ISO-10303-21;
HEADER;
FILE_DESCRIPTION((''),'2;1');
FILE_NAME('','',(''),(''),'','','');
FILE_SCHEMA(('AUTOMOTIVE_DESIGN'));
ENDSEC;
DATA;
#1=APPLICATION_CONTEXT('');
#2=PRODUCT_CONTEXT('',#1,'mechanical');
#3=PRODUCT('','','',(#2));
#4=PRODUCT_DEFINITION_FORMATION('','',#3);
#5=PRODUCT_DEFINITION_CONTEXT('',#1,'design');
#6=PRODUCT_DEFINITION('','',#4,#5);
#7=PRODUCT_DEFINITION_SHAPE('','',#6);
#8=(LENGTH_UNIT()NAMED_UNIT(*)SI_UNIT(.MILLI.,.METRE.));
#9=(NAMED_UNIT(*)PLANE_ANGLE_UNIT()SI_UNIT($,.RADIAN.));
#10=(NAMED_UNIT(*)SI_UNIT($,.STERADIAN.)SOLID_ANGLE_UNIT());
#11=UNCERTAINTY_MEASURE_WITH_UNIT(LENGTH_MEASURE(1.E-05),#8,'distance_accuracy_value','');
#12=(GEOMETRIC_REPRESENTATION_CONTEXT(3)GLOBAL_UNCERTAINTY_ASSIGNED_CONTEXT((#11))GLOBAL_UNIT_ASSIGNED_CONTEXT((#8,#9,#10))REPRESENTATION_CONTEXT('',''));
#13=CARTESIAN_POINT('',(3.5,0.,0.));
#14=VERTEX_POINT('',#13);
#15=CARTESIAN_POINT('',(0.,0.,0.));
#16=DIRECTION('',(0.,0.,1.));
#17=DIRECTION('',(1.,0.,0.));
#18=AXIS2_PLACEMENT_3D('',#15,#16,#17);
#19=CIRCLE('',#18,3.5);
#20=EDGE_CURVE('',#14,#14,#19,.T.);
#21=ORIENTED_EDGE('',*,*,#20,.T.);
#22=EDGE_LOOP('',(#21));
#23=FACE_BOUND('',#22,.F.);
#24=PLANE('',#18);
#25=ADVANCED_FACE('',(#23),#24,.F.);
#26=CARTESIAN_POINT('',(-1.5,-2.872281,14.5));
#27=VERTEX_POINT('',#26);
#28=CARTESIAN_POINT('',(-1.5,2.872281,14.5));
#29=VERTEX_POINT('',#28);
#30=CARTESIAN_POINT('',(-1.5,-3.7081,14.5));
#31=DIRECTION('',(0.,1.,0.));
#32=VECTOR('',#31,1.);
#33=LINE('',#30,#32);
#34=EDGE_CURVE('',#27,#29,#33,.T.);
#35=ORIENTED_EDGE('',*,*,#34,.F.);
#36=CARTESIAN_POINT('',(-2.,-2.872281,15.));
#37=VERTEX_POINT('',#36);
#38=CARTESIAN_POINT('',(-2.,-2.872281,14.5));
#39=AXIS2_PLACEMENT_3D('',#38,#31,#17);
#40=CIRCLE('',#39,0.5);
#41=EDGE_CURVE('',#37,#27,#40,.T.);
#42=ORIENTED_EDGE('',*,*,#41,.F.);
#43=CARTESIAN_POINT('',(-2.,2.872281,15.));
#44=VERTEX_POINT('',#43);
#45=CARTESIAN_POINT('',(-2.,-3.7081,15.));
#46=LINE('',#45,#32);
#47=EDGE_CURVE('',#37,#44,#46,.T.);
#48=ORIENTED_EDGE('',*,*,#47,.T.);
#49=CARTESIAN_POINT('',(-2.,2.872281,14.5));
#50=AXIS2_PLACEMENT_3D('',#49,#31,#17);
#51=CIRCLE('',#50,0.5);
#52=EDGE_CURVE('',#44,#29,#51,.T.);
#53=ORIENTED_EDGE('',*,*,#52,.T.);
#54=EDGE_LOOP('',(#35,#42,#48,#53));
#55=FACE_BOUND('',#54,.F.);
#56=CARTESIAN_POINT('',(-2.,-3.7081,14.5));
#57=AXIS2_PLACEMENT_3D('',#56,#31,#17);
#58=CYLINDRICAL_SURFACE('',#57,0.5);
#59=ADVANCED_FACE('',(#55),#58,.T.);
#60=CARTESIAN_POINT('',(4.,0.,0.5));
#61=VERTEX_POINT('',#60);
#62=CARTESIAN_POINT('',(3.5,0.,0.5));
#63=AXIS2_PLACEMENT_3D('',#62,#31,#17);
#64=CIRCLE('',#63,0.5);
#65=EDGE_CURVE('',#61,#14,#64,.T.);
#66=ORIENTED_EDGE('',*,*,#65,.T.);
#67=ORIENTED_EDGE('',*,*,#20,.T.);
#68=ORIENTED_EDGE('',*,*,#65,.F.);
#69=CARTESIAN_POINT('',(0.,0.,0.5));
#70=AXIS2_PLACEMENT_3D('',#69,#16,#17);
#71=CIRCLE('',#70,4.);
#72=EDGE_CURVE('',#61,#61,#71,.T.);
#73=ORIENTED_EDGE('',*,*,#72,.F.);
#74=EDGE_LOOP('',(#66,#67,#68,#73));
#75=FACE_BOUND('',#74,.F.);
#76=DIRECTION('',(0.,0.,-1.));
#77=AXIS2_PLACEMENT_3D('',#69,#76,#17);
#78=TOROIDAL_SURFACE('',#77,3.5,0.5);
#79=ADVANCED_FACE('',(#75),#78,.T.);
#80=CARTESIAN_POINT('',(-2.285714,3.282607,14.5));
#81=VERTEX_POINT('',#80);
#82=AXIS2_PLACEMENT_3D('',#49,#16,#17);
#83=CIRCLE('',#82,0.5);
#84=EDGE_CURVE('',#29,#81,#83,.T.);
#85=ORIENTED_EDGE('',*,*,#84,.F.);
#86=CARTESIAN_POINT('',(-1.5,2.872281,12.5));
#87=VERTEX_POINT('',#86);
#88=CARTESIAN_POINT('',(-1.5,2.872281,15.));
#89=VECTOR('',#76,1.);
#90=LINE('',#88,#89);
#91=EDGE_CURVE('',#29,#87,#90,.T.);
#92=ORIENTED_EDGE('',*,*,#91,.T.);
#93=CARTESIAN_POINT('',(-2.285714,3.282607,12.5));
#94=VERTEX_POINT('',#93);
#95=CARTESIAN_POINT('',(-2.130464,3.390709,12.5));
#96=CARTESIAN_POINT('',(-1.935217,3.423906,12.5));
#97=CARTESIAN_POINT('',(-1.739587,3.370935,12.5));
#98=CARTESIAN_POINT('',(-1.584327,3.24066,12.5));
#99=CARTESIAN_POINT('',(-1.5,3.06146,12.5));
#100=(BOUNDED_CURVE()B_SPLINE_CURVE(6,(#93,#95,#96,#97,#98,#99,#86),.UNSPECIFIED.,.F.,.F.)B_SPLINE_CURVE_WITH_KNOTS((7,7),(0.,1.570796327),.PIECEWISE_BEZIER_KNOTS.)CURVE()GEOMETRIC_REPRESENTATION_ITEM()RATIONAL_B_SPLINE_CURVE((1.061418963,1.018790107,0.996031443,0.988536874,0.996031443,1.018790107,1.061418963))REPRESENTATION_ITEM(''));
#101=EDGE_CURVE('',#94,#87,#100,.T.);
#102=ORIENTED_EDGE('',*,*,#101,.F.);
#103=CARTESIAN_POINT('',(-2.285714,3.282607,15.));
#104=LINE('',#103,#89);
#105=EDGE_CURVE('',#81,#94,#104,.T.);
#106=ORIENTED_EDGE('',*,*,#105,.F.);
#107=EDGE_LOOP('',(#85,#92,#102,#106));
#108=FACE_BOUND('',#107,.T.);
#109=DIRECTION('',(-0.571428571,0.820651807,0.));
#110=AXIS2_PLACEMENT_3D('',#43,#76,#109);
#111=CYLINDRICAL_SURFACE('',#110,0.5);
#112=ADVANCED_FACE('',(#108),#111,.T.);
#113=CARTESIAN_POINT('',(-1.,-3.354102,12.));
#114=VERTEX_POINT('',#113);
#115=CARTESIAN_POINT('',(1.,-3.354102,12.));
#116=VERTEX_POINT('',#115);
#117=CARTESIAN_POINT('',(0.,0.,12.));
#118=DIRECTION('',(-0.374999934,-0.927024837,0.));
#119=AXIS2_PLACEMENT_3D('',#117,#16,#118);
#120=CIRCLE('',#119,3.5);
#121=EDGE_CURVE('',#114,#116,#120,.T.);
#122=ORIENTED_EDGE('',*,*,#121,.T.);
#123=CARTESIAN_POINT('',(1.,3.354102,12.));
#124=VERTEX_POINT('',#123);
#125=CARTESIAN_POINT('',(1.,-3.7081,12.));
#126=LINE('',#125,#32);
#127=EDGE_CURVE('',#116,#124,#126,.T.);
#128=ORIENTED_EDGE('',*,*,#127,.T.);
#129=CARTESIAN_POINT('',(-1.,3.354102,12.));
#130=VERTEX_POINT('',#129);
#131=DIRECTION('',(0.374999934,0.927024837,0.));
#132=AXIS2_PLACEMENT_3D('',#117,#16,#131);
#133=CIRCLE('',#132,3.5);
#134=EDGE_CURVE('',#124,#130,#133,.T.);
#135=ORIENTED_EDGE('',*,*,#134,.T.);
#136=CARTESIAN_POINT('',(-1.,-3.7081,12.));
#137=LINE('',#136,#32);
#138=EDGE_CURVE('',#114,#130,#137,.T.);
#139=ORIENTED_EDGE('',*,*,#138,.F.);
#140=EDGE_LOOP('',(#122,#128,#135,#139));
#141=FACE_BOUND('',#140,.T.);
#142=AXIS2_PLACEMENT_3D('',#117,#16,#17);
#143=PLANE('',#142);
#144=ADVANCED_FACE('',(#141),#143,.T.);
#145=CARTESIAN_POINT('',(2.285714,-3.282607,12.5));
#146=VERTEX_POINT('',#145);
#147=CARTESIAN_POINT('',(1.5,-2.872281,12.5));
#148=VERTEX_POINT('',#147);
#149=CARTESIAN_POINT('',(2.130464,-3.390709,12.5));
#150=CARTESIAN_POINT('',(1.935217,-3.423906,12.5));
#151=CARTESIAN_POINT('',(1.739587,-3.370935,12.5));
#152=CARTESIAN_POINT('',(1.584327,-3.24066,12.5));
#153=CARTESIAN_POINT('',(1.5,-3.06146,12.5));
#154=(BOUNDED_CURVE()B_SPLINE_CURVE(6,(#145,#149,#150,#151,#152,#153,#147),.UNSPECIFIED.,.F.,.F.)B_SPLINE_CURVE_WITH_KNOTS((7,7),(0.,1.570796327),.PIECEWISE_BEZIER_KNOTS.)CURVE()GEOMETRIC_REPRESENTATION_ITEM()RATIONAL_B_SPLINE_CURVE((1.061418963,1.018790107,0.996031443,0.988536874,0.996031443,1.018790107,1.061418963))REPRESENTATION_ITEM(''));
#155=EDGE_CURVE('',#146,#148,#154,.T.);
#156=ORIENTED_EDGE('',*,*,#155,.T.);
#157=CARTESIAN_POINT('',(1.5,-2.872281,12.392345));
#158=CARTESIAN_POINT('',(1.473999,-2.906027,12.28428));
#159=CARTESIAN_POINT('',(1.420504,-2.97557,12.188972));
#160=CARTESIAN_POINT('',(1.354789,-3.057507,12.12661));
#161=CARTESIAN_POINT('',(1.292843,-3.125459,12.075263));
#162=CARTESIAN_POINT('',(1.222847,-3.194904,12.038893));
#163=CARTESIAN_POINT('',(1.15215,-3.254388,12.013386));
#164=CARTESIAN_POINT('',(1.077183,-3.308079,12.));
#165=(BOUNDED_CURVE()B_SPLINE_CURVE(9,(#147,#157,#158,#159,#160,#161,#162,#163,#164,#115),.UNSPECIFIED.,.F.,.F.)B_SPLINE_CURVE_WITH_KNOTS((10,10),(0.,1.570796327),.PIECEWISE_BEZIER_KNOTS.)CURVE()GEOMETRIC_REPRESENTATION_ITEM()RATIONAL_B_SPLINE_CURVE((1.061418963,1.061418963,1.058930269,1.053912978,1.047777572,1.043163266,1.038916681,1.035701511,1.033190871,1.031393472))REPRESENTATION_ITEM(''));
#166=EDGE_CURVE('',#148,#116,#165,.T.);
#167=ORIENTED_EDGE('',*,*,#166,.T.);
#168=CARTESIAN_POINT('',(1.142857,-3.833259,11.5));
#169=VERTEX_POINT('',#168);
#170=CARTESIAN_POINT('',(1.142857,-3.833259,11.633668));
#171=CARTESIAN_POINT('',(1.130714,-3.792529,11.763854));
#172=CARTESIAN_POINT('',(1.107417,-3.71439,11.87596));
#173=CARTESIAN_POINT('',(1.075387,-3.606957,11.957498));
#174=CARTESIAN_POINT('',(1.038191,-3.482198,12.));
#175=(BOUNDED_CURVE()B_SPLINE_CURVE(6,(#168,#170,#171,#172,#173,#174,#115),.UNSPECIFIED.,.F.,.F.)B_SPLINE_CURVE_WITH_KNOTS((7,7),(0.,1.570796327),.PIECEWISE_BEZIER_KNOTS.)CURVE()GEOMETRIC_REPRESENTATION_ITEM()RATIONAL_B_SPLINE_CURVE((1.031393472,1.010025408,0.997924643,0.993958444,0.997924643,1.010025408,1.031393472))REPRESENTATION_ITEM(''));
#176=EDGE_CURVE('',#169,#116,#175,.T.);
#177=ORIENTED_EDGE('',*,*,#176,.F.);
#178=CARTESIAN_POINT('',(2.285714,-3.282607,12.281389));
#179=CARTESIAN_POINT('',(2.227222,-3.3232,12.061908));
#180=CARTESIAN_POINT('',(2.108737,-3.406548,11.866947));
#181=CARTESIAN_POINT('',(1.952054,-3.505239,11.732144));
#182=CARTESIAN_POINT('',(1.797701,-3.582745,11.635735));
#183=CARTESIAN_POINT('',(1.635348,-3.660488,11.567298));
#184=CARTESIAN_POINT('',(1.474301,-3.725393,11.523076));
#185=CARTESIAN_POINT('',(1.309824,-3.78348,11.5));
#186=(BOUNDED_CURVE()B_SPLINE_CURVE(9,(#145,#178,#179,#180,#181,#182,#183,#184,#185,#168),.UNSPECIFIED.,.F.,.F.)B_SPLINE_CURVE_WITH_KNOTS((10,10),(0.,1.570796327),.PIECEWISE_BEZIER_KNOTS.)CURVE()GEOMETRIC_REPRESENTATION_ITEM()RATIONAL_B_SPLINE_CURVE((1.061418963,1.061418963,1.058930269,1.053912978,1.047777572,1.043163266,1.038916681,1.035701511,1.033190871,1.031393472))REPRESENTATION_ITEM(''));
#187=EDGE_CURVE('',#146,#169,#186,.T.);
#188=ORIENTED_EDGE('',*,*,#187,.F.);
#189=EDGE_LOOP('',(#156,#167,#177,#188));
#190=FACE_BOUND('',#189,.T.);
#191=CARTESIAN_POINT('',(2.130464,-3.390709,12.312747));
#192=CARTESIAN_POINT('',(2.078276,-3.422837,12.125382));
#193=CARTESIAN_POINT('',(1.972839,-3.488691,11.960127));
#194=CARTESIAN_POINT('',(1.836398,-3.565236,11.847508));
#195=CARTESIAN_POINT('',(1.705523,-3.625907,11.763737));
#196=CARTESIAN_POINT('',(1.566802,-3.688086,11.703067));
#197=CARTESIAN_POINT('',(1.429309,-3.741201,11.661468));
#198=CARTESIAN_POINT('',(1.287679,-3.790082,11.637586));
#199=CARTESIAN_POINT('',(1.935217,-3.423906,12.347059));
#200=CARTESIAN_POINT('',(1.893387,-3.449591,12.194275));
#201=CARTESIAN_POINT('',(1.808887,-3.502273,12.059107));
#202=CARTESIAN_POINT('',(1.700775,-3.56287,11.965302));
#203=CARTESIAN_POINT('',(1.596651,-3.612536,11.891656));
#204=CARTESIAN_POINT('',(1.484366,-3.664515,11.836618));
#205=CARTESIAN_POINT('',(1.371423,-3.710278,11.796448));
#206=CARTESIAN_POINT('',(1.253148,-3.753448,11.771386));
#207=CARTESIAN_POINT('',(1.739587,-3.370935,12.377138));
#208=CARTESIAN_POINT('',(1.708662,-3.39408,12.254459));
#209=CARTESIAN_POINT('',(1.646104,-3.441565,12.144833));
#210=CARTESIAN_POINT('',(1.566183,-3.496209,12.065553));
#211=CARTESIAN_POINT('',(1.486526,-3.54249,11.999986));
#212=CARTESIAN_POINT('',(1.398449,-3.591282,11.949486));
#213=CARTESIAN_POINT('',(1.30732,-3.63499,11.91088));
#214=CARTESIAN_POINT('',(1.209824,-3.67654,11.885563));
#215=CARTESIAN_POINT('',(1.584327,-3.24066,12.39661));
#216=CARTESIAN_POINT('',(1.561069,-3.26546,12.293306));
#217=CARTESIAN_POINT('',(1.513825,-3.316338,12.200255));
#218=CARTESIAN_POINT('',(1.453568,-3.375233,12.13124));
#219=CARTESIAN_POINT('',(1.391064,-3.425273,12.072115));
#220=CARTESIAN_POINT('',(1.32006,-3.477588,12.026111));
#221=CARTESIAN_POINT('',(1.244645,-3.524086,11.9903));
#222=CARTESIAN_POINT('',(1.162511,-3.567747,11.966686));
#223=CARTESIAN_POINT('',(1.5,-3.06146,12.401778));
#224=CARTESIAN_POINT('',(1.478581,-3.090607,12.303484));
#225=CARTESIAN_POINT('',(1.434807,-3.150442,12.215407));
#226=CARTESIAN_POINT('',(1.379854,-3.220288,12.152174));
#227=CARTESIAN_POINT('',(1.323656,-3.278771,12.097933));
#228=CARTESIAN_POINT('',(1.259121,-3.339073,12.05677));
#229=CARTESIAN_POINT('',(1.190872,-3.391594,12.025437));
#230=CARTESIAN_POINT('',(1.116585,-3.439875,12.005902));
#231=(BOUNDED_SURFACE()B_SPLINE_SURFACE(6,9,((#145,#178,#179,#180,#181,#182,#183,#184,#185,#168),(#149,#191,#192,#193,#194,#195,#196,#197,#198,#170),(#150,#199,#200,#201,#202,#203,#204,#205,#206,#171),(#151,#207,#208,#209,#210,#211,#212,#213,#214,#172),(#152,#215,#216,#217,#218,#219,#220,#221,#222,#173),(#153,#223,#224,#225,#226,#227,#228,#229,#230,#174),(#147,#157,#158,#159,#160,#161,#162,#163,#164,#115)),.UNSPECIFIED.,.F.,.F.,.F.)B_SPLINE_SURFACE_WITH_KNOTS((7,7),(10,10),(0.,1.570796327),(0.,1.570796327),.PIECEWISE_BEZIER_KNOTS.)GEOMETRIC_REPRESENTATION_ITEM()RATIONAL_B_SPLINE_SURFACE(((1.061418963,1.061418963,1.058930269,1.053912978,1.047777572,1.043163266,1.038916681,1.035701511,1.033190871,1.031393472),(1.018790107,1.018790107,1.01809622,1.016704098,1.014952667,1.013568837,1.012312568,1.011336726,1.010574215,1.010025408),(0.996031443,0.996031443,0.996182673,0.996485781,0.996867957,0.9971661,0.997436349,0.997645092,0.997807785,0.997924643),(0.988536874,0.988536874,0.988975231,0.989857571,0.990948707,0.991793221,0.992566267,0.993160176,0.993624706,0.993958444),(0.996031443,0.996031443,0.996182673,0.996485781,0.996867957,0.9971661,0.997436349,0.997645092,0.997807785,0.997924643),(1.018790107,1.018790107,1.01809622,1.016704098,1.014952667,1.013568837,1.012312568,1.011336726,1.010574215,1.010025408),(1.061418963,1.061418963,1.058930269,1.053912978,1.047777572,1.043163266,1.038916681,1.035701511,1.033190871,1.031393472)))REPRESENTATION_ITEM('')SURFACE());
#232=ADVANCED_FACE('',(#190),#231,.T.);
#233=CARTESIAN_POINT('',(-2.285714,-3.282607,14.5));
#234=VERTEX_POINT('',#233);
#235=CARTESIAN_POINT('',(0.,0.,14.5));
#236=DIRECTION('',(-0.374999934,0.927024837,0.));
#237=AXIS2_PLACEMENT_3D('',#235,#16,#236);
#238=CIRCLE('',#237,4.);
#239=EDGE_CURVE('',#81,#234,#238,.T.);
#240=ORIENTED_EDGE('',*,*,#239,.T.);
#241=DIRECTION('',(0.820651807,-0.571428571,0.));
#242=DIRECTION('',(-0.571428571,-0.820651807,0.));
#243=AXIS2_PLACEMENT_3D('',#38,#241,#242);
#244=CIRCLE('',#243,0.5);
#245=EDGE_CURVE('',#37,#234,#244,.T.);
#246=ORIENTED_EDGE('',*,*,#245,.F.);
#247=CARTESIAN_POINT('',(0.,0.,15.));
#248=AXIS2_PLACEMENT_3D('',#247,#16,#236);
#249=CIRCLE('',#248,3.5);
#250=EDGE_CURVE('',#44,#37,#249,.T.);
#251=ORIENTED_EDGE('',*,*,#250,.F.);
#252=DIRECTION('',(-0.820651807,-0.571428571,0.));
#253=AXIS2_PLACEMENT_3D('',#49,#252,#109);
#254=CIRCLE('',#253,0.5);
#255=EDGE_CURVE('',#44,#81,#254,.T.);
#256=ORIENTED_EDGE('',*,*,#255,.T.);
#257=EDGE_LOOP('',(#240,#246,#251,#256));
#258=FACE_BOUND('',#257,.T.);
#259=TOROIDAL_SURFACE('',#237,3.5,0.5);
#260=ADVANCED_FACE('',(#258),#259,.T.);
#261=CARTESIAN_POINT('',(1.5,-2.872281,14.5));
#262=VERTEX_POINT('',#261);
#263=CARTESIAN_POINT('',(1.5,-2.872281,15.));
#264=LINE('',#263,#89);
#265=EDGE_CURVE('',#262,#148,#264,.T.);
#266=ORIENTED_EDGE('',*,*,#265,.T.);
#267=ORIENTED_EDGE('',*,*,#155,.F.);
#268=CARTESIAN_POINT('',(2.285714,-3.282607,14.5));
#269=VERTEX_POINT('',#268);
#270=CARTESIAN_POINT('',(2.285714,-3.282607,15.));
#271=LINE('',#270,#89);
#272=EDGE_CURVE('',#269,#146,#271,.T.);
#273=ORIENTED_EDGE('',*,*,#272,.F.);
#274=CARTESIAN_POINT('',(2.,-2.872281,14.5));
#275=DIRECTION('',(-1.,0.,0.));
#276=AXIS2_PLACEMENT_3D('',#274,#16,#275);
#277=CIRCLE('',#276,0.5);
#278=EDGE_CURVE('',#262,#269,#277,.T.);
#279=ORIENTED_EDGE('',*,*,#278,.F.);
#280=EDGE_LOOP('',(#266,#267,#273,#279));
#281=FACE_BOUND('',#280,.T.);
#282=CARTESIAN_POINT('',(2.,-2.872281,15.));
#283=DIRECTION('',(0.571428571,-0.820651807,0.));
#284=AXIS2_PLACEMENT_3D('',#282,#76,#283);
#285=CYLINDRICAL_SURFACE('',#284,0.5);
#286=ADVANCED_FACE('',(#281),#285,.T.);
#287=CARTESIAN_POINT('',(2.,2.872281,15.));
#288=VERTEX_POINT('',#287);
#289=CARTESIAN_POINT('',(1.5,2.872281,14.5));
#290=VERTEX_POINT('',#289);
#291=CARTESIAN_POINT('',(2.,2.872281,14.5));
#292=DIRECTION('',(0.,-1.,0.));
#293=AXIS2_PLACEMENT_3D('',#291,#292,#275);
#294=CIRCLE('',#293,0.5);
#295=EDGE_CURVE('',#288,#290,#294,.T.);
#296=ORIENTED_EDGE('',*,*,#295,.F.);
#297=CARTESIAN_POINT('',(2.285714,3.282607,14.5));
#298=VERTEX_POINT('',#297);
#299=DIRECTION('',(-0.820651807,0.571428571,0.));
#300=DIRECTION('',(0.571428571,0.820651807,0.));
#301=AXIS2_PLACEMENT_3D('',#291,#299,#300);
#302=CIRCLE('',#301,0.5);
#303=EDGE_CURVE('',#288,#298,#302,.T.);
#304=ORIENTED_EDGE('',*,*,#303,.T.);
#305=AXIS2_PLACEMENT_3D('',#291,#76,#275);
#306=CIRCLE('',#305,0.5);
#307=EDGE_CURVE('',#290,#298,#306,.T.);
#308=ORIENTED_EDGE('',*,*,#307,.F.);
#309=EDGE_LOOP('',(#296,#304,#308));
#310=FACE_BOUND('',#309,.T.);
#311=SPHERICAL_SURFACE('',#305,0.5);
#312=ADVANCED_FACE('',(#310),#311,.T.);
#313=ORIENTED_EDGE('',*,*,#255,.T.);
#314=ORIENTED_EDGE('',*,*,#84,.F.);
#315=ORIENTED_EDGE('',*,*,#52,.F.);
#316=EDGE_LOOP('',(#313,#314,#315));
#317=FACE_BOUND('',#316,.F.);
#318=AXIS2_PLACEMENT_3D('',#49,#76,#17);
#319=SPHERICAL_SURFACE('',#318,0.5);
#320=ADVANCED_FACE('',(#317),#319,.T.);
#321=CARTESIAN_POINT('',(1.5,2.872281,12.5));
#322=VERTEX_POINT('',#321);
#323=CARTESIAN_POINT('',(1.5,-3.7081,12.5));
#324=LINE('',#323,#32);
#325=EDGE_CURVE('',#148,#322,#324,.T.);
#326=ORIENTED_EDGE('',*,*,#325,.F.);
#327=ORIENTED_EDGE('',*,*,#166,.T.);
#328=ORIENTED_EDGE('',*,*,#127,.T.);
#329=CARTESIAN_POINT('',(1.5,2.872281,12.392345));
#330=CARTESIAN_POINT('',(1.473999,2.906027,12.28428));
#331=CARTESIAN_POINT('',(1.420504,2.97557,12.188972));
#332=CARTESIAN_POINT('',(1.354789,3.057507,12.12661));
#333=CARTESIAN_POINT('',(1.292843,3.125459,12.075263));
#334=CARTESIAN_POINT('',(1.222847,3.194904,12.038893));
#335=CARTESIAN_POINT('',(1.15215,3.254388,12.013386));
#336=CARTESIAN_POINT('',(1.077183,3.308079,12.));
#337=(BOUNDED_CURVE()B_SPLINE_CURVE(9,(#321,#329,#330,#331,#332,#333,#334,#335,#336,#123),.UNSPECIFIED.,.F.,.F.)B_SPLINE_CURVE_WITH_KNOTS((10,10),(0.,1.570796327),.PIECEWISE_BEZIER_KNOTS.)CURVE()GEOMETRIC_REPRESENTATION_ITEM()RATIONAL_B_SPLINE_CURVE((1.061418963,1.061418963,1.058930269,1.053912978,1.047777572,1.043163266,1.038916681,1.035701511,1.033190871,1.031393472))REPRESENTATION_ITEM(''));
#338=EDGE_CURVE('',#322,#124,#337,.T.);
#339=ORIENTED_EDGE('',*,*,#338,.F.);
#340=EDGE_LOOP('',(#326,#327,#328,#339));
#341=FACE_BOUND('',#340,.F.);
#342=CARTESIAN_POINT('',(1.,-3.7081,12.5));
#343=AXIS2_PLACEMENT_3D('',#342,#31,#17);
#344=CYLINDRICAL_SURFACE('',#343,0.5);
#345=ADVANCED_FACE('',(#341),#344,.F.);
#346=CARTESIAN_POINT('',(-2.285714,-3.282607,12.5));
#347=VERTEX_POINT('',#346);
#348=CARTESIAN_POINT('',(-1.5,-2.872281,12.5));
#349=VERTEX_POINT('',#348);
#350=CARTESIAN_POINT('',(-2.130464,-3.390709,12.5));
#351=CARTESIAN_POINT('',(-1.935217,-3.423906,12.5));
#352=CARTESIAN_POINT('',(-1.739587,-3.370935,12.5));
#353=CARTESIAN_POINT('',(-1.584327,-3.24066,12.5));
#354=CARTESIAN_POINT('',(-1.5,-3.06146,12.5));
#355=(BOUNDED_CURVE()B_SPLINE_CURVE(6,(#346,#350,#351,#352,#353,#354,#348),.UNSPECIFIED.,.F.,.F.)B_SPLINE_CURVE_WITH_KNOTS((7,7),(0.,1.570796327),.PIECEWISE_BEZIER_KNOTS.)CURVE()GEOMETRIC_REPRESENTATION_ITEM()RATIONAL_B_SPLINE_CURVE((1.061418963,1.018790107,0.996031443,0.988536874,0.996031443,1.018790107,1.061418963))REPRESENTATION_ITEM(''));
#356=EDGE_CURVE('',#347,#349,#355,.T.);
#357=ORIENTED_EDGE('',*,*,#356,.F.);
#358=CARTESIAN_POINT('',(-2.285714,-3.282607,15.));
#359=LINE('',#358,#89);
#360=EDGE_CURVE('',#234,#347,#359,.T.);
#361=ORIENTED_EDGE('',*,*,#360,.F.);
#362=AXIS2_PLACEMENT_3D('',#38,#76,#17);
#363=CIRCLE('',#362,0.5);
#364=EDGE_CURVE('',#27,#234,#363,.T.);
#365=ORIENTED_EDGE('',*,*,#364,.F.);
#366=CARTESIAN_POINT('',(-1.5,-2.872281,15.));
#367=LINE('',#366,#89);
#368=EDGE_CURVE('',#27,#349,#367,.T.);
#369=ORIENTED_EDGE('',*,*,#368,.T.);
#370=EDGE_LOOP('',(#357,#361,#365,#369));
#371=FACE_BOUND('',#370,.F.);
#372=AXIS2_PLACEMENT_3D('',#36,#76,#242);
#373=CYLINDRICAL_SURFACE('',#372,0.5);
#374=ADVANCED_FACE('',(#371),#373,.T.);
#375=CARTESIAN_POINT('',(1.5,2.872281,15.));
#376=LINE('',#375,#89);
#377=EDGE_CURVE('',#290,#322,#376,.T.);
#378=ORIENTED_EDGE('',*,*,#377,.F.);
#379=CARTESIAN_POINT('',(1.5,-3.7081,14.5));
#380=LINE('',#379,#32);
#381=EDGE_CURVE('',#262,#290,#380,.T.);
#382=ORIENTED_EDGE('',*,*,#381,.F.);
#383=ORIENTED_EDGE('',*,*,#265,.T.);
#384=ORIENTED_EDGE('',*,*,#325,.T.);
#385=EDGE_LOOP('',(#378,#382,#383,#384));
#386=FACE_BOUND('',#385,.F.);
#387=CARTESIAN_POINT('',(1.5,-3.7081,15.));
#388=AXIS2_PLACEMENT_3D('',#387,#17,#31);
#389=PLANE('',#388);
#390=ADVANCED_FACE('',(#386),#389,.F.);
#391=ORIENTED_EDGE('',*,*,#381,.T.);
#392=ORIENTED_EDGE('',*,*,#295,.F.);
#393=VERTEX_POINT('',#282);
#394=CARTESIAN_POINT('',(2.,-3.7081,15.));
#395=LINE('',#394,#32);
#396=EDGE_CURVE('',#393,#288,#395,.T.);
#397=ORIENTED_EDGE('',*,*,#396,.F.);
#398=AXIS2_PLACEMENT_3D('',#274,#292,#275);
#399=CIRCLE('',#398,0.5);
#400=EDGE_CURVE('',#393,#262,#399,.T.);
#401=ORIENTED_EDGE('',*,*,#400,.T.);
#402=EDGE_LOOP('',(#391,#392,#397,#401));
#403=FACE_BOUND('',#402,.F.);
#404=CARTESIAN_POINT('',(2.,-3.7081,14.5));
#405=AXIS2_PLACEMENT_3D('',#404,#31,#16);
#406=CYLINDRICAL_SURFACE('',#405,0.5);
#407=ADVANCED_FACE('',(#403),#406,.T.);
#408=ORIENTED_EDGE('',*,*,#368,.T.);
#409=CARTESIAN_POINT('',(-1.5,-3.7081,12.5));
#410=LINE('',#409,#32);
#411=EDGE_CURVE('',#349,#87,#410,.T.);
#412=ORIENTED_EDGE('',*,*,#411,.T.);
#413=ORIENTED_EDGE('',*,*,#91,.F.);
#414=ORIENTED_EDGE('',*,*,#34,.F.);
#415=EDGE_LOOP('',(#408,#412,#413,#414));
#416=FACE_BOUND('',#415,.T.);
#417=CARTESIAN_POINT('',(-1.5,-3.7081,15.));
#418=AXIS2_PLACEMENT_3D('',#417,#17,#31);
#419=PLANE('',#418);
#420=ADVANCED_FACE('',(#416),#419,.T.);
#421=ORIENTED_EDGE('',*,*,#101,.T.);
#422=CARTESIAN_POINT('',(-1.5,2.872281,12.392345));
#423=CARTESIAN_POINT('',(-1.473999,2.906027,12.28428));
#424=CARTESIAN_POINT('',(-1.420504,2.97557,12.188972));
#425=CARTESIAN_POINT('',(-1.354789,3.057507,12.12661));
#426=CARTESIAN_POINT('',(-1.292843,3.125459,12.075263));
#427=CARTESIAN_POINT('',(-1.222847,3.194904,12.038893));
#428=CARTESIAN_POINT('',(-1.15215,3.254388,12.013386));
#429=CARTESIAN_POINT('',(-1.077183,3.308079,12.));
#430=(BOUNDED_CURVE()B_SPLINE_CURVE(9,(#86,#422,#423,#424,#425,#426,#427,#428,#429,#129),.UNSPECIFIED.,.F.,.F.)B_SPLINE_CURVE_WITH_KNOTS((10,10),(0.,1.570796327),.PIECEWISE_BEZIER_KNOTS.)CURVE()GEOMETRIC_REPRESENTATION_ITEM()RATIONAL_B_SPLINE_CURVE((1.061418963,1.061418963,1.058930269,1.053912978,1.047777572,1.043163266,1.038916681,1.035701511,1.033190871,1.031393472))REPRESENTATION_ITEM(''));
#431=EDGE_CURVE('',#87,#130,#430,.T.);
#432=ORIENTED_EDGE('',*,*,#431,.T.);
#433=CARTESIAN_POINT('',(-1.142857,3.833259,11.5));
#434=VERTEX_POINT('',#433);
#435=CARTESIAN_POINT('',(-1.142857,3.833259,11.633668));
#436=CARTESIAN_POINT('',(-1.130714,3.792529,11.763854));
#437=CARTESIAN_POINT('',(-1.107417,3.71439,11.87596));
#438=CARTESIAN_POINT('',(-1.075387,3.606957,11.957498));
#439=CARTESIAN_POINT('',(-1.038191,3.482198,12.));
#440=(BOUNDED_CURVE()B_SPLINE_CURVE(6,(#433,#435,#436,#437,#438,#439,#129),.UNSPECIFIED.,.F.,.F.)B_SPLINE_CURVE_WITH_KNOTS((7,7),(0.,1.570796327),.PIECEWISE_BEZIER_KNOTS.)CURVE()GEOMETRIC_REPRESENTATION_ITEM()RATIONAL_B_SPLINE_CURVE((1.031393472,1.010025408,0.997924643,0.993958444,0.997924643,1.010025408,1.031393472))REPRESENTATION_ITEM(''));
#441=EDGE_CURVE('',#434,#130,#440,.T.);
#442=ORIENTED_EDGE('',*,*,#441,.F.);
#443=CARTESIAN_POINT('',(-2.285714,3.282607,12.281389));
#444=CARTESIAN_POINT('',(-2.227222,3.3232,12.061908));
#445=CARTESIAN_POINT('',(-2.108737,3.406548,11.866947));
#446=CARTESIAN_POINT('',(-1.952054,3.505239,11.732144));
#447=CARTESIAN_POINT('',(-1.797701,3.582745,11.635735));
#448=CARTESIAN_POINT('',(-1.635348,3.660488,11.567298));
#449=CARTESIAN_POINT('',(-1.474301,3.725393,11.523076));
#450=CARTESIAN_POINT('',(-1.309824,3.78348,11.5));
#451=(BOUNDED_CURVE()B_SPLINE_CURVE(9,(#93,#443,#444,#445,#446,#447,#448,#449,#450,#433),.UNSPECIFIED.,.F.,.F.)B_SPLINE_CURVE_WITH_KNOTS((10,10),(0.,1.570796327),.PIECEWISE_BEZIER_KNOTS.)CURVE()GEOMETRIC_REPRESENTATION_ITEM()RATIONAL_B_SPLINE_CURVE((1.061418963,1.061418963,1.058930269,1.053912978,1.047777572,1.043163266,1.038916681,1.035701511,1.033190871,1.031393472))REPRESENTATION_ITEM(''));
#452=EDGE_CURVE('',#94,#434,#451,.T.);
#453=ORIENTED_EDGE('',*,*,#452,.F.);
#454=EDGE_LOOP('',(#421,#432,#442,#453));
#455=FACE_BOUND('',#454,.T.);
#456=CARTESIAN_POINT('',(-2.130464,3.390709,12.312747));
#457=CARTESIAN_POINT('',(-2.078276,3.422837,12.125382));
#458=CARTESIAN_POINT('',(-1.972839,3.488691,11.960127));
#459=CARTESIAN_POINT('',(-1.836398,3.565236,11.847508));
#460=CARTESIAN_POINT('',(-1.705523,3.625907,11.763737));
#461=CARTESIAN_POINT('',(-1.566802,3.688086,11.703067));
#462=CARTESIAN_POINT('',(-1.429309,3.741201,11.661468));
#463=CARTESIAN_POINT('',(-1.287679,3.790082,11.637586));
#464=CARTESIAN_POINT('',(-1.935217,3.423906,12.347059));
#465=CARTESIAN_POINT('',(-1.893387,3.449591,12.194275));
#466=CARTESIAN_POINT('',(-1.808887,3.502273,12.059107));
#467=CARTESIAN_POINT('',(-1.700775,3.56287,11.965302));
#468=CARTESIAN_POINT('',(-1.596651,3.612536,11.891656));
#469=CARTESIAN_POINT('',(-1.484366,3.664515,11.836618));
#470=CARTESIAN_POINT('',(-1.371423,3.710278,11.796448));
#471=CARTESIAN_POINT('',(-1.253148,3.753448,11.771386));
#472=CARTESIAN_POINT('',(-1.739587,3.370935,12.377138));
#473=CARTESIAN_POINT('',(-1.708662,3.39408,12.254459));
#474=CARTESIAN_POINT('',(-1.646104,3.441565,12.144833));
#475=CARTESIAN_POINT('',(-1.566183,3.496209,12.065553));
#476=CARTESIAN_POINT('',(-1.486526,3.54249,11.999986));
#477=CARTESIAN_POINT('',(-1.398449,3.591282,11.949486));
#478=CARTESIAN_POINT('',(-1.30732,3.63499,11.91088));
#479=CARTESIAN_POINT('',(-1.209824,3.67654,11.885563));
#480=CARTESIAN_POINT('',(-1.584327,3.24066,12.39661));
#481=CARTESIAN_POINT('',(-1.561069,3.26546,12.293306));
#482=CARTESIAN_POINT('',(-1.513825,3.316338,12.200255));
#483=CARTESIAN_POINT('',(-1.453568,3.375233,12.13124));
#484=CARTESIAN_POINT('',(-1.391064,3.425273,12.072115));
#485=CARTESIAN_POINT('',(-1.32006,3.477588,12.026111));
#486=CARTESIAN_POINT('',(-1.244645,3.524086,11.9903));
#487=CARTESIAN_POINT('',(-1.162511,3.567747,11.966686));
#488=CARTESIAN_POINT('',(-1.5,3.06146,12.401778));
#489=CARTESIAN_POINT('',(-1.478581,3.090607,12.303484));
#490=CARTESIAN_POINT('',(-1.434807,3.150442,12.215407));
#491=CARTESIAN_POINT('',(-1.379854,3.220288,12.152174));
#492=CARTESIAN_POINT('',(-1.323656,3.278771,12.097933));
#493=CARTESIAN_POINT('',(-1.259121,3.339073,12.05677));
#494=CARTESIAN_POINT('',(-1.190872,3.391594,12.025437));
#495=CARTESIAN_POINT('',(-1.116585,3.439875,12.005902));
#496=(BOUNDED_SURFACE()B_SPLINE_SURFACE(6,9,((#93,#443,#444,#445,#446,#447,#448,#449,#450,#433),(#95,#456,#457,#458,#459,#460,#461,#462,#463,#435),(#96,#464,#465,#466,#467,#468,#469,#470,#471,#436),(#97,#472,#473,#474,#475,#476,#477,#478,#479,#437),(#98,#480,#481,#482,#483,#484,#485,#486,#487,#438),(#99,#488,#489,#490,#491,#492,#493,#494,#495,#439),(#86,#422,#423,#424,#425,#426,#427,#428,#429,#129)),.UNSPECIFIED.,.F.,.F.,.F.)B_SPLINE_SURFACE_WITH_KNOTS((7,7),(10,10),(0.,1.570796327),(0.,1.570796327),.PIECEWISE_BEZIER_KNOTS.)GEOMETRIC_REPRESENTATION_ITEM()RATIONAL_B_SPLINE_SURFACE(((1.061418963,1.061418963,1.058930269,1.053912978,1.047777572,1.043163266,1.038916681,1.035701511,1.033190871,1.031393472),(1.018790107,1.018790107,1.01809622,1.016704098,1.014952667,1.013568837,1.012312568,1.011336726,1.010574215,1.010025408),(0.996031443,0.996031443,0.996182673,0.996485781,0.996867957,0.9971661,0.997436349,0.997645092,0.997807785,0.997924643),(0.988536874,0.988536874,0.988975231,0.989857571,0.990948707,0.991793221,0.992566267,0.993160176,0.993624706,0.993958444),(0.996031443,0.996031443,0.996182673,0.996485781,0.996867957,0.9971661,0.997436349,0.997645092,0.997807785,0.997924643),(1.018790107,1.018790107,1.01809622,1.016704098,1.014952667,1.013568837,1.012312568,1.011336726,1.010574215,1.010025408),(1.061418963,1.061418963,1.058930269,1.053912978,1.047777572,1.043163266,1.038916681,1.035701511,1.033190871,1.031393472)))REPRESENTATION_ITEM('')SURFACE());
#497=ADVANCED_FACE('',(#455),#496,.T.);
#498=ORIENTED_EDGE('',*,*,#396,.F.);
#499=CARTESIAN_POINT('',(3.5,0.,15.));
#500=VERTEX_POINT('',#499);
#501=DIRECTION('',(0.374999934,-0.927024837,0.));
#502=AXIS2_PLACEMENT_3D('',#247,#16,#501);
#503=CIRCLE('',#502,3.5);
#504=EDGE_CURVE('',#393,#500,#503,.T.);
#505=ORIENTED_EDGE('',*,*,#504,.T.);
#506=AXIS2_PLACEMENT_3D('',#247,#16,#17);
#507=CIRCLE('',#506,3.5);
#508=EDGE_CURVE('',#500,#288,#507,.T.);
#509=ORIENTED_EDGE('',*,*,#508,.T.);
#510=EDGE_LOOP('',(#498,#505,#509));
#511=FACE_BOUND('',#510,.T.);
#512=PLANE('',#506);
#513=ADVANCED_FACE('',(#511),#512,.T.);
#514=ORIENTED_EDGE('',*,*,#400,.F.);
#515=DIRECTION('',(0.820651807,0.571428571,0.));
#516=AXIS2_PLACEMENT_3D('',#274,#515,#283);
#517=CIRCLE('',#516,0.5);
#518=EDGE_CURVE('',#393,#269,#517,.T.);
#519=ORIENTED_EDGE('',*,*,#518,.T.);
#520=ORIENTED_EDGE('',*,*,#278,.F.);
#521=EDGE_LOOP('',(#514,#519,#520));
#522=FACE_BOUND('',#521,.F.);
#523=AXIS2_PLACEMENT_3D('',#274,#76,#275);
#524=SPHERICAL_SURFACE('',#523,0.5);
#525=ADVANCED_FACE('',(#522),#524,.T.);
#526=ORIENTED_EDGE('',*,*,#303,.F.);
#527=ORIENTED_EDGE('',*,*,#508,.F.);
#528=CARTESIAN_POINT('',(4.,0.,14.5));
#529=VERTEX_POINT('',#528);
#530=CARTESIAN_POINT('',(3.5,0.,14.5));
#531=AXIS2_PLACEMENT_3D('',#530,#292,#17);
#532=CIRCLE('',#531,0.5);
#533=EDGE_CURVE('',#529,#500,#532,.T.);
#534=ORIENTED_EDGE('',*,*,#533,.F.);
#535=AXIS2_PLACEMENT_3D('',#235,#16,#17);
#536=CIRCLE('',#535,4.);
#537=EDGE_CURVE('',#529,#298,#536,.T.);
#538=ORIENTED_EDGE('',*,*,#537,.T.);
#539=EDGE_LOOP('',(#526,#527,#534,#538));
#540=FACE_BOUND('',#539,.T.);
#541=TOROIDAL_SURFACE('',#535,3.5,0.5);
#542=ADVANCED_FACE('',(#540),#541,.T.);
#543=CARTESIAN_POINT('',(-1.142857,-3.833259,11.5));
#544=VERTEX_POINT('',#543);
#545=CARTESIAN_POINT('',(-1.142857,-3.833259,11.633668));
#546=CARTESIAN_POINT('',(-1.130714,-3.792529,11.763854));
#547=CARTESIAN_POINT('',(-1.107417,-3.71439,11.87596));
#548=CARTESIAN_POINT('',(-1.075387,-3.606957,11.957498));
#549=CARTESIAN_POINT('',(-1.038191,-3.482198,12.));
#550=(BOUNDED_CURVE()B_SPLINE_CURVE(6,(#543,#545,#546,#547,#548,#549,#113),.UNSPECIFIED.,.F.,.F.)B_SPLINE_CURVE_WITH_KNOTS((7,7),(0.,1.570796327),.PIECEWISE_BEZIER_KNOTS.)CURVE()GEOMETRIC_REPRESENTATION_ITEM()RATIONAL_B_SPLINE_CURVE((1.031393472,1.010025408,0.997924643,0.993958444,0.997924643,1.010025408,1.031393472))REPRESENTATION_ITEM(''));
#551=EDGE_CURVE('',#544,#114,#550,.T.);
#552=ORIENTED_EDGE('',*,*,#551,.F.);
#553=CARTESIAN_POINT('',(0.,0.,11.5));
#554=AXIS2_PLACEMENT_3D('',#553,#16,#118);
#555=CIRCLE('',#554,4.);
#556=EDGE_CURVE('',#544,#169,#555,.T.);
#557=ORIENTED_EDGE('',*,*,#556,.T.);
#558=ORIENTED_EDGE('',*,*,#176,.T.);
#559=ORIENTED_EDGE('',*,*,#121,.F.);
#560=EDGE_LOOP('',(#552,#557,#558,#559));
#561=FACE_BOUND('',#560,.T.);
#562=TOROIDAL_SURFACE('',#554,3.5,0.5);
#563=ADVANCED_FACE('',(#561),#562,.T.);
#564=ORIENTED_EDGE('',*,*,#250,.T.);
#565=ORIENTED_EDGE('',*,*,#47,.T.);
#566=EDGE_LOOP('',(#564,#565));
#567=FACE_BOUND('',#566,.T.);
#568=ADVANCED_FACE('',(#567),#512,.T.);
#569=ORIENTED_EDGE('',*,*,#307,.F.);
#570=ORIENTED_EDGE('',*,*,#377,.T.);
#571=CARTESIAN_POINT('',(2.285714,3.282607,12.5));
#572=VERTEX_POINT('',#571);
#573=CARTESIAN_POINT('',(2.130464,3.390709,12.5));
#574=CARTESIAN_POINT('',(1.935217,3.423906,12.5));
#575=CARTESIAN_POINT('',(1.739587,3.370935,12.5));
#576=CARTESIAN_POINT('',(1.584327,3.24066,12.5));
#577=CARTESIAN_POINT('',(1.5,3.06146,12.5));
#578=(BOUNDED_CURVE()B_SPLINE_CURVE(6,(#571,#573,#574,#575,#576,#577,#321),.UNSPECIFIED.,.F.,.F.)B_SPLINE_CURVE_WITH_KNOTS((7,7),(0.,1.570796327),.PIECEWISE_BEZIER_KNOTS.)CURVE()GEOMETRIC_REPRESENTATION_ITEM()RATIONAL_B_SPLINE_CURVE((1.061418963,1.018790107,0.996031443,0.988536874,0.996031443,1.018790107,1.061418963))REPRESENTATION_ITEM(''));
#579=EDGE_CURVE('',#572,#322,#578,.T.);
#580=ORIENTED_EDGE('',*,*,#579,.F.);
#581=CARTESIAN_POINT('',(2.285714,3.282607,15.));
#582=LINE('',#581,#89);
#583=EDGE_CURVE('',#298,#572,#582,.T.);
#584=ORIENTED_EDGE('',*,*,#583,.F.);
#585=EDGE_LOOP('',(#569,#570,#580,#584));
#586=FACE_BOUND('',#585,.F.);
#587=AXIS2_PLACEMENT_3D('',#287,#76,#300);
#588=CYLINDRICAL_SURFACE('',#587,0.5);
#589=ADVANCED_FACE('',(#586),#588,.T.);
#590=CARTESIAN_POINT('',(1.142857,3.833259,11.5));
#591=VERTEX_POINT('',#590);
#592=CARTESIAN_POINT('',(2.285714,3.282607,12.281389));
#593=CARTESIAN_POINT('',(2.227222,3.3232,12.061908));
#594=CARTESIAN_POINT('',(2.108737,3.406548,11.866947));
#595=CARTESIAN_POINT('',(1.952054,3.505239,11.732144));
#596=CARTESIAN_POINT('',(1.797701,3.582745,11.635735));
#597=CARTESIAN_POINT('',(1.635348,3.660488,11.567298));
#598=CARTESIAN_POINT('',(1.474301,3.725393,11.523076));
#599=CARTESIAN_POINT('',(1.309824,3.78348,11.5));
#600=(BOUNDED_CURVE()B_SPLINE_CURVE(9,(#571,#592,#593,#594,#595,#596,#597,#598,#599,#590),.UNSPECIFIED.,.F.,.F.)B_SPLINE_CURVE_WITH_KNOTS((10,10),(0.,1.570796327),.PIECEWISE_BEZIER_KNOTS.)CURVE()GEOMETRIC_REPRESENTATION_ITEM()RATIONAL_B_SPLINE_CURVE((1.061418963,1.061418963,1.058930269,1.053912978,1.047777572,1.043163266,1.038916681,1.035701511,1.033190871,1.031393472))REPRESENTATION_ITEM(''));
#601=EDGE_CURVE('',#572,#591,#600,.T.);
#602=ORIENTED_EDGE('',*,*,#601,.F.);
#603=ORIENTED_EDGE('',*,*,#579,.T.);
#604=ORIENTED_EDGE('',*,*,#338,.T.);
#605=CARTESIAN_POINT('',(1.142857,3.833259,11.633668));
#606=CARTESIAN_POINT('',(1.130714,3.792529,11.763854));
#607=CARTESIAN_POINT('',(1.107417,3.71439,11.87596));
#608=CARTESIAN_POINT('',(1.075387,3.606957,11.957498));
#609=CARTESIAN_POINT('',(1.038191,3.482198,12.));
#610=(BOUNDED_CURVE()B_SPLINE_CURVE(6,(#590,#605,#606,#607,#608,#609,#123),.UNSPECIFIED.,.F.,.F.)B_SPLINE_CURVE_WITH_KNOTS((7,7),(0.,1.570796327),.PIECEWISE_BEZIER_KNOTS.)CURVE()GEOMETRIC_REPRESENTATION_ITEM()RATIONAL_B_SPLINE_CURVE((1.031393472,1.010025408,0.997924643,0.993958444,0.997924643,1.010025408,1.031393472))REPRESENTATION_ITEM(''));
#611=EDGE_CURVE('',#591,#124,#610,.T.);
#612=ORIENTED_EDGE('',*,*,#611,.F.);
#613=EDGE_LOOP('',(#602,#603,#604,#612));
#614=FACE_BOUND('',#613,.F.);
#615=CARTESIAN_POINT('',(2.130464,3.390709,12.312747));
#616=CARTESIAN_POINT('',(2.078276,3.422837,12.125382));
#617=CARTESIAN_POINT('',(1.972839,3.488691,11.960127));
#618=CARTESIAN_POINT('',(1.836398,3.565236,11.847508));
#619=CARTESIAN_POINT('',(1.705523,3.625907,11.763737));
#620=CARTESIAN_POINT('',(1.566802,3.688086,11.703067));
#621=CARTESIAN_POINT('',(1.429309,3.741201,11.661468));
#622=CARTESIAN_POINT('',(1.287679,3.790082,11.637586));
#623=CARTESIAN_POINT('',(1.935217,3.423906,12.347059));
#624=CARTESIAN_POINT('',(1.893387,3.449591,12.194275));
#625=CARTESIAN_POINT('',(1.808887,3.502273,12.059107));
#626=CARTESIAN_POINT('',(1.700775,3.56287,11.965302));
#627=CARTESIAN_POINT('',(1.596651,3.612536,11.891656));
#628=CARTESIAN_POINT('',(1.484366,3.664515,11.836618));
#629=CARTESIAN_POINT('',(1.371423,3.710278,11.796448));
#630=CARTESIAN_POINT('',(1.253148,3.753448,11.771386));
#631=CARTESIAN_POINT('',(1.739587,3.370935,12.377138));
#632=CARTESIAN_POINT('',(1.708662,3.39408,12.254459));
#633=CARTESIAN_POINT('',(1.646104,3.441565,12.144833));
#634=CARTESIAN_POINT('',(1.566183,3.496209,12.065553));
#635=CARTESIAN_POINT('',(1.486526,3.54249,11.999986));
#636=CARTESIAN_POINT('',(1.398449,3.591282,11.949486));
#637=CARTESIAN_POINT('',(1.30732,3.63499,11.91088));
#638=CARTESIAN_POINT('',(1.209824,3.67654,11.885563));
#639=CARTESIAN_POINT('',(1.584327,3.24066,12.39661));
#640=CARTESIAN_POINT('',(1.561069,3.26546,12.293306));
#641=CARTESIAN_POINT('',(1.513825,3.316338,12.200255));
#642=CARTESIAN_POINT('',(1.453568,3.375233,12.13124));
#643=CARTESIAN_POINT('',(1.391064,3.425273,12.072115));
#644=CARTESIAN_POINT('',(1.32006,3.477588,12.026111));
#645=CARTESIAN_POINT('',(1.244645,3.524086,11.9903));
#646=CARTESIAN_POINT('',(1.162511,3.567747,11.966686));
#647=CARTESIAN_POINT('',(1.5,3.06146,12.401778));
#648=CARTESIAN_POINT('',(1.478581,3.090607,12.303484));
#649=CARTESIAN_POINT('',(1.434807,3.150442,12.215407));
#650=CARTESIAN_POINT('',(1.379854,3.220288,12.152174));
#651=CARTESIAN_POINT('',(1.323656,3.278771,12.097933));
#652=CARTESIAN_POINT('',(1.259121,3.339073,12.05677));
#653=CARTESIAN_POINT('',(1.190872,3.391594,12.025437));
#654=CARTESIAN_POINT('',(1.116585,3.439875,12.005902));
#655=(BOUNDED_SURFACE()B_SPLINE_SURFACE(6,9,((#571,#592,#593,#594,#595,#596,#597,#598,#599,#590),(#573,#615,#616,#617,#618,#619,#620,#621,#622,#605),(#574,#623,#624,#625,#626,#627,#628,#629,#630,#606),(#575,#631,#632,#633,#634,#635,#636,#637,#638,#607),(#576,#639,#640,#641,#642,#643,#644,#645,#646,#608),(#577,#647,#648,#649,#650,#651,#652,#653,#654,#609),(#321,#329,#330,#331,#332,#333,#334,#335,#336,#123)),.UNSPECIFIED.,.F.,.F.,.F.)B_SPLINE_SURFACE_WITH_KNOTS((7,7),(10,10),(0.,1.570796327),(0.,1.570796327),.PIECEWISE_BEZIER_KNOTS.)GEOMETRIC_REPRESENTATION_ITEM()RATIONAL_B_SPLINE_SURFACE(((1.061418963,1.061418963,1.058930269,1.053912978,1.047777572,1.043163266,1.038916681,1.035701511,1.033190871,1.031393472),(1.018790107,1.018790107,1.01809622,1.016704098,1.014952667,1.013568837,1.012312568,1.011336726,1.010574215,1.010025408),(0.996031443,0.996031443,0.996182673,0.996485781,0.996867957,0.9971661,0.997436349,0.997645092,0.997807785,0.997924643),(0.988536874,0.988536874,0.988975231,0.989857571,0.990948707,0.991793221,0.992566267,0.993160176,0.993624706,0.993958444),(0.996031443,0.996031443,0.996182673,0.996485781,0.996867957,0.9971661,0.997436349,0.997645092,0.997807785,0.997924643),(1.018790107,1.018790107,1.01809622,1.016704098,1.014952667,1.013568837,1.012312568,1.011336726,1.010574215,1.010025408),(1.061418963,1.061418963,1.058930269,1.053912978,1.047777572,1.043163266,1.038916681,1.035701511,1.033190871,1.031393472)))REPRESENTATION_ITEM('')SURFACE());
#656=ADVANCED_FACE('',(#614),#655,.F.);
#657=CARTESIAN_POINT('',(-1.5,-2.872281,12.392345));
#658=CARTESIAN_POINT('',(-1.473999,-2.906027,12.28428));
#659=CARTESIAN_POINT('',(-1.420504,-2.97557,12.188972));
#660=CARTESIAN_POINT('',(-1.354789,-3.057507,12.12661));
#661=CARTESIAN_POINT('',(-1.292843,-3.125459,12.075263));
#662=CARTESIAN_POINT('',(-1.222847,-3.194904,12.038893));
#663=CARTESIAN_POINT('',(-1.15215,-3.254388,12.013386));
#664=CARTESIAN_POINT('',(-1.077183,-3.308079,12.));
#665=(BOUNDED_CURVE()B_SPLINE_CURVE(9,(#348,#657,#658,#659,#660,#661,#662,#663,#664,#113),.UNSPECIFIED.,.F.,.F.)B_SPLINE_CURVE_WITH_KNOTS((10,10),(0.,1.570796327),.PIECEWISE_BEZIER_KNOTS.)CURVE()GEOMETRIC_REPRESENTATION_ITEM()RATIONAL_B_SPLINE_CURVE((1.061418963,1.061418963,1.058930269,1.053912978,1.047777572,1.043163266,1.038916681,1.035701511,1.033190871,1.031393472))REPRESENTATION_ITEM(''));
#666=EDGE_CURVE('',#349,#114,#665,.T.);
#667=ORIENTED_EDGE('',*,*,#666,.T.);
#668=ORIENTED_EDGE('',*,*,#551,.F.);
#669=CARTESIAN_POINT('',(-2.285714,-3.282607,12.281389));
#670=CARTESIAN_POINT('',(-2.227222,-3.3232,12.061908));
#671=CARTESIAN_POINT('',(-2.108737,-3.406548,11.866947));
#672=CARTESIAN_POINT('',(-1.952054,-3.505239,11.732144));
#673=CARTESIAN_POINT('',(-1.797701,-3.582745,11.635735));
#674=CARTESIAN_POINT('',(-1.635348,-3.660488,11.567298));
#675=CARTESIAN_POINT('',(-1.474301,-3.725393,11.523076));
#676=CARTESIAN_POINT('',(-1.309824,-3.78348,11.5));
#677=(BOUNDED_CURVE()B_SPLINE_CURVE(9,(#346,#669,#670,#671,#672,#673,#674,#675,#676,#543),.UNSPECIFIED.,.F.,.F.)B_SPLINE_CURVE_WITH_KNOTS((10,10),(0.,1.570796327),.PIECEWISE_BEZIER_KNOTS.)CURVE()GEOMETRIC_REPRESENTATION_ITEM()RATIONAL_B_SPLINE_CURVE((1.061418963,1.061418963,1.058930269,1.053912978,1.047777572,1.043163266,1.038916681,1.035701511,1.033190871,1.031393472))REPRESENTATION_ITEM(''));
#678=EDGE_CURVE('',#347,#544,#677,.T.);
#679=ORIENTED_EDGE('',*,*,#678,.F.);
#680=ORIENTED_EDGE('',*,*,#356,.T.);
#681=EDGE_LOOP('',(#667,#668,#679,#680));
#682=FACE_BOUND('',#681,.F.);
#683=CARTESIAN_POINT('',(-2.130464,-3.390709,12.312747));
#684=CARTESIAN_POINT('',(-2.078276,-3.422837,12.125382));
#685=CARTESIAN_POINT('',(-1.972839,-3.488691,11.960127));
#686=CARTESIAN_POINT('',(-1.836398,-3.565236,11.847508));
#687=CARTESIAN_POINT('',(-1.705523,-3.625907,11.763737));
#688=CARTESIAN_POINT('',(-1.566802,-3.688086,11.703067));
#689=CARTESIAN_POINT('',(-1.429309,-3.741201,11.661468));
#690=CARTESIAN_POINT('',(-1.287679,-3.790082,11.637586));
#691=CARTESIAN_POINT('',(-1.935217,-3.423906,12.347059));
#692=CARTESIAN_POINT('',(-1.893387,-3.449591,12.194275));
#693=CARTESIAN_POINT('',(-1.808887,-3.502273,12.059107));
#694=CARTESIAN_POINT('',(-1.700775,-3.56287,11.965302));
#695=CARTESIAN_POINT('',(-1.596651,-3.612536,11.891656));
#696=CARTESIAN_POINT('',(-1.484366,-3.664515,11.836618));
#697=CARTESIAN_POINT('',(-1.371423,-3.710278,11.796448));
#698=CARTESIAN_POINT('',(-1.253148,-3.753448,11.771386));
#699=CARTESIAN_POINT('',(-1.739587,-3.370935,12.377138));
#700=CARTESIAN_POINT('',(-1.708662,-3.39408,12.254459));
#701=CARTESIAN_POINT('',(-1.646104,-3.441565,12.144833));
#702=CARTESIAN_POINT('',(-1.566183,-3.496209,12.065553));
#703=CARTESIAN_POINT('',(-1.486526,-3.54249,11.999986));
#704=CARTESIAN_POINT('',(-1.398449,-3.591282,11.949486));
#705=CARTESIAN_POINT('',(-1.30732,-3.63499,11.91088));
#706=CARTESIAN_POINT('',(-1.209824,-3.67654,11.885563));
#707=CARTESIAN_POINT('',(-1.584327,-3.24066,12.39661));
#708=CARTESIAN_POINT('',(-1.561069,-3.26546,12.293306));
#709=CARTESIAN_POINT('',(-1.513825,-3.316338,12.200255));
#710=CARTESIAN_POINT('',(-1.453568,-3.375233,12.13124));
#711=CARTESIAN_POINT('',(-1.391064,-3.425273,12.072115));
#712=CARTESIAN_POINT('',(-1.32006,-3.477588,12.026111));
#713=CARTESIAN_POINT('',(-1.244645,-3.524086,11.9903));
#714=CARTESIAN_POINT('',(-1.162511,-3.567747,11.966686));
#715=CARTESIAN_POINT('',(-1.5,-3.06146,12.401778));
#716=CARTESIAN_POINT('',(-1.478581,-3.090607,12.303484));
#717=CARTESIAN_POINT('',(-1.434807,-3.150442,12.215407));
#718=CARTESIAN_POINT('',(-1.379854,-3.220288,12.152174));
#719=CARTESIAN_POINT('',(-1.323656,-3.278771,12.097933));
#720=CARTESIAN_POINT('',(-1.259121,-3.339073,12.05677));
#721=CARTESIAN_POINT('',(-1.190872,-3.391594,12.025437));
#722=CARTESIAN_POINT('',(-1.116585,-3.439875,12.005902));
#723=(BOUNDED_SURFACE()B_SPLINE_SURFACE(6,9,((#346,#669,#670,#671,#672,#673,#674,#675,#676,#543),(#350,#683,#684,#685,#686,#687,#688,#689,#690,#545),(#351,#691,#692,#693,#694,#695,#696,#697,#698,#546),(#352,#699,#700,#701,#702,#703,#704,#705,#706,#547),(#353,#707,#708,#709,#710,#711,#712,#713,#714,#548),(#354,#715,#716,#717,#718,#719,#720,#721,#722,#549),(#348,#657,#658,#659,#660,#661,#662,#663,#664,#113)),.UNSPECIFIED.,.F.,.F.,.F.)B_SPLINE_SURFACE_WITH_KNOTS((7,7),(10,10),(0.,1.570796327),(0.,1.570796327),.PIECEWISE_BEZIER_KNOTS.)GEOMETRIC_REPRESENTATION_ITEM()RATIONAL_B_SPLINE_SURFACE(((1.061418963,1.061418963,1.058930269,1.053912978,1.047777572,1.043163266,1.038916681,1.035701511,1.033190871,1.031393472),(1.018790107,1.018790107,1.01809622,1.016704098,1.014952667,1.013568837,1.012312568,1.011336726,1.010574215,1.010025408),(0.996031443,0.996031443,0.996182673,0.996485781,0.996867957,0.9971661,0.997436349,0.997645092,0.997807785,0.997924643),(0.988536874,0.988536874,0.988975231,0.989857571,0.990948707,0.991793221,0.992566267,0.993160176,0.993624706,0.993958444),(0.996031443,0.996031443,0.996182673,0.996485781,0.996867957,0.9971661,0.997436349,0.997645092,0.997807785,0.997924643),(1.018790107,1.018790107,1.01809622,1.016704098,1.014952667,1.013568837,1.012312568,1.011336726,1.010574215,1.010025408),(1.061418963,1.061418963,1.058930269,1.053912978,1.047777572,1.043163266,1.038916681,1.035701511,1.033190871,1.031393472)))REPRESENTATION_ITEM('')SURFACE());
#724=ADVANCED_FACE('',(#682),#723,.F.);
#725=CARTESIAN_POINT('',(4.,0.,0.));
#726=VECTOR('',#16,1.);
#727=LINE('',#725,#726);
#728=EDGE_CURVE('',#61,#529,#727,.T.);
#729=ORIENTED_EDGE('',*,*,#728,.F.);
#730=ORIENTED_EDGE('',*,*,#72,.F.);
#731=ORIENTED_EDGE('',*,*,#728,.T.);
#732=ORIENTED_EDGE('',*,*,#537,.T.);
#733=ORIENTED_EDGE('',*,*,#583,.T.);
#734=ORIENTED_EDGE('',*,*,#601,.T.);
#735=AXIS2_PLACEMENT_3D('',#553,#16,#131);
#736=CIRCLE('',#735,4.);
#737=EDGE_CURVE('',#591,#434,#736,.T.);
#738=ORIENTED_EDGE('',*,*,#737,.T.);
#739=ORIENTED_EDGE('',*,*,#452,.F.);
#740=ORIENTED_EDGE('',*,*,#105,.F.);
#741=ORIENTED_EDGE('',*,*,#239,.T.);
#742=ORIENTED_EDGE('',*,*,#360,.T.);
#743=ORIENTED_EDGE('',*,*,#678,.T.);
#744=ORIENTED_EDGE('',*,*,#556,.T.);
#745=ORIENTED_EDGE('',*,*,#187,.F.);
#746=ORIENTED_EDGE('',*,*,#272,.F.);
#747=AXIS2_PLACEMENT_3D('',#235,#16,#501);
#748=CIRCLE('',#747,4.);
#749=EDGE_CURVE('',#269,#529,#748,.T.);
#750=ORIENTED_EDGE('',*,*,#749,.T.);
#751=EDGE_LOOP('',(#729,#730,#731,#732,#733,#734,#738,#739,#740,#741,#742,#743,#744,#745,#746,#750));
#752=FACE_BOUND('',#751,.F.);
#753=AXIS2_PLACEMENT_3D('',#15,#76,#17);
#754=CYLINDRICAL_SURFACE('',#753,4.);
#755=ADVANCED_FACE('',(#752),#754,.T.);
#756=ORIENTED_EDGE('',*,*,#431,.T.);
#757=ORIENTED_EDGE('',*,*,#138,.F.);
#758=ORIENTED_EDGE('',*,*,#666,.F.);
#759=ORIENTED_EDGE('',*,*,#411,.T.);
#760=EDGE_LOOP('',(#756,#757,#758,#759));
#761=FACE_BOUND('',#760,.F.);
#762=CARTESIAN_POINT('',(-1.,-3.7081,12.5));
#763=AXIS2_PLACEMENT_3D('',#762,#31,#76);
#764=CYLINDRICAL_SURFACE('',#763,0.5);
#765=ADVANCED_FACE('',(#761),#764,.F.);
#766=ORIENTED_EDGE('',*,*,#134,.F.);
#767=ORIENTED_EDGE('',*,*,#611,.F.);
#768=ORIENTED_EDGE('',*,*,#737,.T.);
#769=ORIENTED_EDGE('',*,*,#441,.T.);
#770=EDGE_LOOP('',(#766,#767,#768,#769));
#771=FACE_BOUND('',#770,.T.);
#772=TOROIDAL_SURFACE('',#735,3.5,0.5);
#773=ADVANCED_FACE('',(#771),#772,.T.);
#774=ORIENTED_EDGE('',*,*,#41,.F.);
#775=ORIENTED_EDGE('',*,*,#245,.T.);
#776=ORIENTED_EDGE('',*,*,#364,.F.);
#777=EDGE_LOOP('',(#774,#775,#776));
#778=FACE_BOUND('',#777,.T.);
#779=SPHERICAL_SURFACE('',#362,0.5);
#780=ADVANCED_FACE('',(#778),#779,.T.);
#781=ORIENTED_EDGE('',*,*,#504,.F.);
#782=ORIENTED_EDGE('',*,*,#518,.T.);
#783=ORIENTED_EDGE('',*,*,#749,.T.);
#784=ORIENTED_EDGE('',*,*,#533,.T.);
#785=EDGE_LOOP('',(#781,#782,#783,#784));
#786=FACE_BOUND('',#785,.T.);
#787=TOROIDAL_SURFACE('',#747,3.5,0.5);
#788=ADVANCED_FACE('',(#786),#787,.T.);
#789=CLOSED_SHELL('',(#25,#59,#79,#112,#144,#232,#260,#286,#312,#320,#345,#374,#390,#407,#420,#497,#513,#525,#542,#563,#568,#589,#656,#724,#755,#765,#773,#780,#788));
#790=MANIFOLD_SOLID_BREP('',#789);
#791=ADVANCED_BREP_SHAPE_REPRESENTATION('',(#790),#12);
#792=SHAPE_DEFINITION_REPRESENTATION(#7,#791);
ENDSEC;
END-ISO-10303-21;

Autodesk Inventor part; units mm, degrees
ref_plane "YZ Plane" through (0, 0, 0) normal (1, 0, 0) x (0, 1, 0)
ref_plane "XZ Plane" through (0, 0, 0) normal (0, 1, 0) x (-1, 0, 0)
ref_plane "XY Plane" through (0, 0, 0) normal (0, 0, 1) x (1, 0, 0)
sketch "Sketch1" plane through (0, 0, 0) normal (0, 0, 1) x (1, 0, 0)
  circle A0 centre (0, 0) radius 4
  dimension "d0" = 8
extrude "Extrusion1" add sketch "Sketch1" along normal blind 15
sketch "Sketch2" plane through (0, 0, 15) normal (0, 0, 1) x (1, 0, 0)
  circle A0 centre (0, 0) radius 4 projected
  line L0 (0, -5.6) -> (0, 5.6) projected
  line L1 (1.5, -3.7081) -> (1.5, 3.7081)
  line L2 (-1.5, -3.7081) -> (-1.5, 3.7081)
  circle A1 centre (0, 0) radius 4 projected
  dimension "d5" = 3
  dimension "d6" = 1.5
extrude "Extrusion2" cut sketch "Sketch2" against normal blind 3 contours L1 A0 L0 | L0 A0 L2
fillet "Fillet1" radius 0.5 14 edges at (-1.5, 0, 15) (1.5, 0, 15) (-1.5, 0, 12) (1.5, 0, 12) (3.3166, -2.2361, 15) (3.3166, 2.2361, 15) (-4, 0, 15) (-1.5, -3.7081, 13.5) (-1.5, 3.7081, 13.5) (1.5, -3.7081, 13.5) (1.5, 3.7081, 13.5) (0, -4, 12) (0, 4, 12) (-4, 0, 0)
properties part number "Locating Pin"
